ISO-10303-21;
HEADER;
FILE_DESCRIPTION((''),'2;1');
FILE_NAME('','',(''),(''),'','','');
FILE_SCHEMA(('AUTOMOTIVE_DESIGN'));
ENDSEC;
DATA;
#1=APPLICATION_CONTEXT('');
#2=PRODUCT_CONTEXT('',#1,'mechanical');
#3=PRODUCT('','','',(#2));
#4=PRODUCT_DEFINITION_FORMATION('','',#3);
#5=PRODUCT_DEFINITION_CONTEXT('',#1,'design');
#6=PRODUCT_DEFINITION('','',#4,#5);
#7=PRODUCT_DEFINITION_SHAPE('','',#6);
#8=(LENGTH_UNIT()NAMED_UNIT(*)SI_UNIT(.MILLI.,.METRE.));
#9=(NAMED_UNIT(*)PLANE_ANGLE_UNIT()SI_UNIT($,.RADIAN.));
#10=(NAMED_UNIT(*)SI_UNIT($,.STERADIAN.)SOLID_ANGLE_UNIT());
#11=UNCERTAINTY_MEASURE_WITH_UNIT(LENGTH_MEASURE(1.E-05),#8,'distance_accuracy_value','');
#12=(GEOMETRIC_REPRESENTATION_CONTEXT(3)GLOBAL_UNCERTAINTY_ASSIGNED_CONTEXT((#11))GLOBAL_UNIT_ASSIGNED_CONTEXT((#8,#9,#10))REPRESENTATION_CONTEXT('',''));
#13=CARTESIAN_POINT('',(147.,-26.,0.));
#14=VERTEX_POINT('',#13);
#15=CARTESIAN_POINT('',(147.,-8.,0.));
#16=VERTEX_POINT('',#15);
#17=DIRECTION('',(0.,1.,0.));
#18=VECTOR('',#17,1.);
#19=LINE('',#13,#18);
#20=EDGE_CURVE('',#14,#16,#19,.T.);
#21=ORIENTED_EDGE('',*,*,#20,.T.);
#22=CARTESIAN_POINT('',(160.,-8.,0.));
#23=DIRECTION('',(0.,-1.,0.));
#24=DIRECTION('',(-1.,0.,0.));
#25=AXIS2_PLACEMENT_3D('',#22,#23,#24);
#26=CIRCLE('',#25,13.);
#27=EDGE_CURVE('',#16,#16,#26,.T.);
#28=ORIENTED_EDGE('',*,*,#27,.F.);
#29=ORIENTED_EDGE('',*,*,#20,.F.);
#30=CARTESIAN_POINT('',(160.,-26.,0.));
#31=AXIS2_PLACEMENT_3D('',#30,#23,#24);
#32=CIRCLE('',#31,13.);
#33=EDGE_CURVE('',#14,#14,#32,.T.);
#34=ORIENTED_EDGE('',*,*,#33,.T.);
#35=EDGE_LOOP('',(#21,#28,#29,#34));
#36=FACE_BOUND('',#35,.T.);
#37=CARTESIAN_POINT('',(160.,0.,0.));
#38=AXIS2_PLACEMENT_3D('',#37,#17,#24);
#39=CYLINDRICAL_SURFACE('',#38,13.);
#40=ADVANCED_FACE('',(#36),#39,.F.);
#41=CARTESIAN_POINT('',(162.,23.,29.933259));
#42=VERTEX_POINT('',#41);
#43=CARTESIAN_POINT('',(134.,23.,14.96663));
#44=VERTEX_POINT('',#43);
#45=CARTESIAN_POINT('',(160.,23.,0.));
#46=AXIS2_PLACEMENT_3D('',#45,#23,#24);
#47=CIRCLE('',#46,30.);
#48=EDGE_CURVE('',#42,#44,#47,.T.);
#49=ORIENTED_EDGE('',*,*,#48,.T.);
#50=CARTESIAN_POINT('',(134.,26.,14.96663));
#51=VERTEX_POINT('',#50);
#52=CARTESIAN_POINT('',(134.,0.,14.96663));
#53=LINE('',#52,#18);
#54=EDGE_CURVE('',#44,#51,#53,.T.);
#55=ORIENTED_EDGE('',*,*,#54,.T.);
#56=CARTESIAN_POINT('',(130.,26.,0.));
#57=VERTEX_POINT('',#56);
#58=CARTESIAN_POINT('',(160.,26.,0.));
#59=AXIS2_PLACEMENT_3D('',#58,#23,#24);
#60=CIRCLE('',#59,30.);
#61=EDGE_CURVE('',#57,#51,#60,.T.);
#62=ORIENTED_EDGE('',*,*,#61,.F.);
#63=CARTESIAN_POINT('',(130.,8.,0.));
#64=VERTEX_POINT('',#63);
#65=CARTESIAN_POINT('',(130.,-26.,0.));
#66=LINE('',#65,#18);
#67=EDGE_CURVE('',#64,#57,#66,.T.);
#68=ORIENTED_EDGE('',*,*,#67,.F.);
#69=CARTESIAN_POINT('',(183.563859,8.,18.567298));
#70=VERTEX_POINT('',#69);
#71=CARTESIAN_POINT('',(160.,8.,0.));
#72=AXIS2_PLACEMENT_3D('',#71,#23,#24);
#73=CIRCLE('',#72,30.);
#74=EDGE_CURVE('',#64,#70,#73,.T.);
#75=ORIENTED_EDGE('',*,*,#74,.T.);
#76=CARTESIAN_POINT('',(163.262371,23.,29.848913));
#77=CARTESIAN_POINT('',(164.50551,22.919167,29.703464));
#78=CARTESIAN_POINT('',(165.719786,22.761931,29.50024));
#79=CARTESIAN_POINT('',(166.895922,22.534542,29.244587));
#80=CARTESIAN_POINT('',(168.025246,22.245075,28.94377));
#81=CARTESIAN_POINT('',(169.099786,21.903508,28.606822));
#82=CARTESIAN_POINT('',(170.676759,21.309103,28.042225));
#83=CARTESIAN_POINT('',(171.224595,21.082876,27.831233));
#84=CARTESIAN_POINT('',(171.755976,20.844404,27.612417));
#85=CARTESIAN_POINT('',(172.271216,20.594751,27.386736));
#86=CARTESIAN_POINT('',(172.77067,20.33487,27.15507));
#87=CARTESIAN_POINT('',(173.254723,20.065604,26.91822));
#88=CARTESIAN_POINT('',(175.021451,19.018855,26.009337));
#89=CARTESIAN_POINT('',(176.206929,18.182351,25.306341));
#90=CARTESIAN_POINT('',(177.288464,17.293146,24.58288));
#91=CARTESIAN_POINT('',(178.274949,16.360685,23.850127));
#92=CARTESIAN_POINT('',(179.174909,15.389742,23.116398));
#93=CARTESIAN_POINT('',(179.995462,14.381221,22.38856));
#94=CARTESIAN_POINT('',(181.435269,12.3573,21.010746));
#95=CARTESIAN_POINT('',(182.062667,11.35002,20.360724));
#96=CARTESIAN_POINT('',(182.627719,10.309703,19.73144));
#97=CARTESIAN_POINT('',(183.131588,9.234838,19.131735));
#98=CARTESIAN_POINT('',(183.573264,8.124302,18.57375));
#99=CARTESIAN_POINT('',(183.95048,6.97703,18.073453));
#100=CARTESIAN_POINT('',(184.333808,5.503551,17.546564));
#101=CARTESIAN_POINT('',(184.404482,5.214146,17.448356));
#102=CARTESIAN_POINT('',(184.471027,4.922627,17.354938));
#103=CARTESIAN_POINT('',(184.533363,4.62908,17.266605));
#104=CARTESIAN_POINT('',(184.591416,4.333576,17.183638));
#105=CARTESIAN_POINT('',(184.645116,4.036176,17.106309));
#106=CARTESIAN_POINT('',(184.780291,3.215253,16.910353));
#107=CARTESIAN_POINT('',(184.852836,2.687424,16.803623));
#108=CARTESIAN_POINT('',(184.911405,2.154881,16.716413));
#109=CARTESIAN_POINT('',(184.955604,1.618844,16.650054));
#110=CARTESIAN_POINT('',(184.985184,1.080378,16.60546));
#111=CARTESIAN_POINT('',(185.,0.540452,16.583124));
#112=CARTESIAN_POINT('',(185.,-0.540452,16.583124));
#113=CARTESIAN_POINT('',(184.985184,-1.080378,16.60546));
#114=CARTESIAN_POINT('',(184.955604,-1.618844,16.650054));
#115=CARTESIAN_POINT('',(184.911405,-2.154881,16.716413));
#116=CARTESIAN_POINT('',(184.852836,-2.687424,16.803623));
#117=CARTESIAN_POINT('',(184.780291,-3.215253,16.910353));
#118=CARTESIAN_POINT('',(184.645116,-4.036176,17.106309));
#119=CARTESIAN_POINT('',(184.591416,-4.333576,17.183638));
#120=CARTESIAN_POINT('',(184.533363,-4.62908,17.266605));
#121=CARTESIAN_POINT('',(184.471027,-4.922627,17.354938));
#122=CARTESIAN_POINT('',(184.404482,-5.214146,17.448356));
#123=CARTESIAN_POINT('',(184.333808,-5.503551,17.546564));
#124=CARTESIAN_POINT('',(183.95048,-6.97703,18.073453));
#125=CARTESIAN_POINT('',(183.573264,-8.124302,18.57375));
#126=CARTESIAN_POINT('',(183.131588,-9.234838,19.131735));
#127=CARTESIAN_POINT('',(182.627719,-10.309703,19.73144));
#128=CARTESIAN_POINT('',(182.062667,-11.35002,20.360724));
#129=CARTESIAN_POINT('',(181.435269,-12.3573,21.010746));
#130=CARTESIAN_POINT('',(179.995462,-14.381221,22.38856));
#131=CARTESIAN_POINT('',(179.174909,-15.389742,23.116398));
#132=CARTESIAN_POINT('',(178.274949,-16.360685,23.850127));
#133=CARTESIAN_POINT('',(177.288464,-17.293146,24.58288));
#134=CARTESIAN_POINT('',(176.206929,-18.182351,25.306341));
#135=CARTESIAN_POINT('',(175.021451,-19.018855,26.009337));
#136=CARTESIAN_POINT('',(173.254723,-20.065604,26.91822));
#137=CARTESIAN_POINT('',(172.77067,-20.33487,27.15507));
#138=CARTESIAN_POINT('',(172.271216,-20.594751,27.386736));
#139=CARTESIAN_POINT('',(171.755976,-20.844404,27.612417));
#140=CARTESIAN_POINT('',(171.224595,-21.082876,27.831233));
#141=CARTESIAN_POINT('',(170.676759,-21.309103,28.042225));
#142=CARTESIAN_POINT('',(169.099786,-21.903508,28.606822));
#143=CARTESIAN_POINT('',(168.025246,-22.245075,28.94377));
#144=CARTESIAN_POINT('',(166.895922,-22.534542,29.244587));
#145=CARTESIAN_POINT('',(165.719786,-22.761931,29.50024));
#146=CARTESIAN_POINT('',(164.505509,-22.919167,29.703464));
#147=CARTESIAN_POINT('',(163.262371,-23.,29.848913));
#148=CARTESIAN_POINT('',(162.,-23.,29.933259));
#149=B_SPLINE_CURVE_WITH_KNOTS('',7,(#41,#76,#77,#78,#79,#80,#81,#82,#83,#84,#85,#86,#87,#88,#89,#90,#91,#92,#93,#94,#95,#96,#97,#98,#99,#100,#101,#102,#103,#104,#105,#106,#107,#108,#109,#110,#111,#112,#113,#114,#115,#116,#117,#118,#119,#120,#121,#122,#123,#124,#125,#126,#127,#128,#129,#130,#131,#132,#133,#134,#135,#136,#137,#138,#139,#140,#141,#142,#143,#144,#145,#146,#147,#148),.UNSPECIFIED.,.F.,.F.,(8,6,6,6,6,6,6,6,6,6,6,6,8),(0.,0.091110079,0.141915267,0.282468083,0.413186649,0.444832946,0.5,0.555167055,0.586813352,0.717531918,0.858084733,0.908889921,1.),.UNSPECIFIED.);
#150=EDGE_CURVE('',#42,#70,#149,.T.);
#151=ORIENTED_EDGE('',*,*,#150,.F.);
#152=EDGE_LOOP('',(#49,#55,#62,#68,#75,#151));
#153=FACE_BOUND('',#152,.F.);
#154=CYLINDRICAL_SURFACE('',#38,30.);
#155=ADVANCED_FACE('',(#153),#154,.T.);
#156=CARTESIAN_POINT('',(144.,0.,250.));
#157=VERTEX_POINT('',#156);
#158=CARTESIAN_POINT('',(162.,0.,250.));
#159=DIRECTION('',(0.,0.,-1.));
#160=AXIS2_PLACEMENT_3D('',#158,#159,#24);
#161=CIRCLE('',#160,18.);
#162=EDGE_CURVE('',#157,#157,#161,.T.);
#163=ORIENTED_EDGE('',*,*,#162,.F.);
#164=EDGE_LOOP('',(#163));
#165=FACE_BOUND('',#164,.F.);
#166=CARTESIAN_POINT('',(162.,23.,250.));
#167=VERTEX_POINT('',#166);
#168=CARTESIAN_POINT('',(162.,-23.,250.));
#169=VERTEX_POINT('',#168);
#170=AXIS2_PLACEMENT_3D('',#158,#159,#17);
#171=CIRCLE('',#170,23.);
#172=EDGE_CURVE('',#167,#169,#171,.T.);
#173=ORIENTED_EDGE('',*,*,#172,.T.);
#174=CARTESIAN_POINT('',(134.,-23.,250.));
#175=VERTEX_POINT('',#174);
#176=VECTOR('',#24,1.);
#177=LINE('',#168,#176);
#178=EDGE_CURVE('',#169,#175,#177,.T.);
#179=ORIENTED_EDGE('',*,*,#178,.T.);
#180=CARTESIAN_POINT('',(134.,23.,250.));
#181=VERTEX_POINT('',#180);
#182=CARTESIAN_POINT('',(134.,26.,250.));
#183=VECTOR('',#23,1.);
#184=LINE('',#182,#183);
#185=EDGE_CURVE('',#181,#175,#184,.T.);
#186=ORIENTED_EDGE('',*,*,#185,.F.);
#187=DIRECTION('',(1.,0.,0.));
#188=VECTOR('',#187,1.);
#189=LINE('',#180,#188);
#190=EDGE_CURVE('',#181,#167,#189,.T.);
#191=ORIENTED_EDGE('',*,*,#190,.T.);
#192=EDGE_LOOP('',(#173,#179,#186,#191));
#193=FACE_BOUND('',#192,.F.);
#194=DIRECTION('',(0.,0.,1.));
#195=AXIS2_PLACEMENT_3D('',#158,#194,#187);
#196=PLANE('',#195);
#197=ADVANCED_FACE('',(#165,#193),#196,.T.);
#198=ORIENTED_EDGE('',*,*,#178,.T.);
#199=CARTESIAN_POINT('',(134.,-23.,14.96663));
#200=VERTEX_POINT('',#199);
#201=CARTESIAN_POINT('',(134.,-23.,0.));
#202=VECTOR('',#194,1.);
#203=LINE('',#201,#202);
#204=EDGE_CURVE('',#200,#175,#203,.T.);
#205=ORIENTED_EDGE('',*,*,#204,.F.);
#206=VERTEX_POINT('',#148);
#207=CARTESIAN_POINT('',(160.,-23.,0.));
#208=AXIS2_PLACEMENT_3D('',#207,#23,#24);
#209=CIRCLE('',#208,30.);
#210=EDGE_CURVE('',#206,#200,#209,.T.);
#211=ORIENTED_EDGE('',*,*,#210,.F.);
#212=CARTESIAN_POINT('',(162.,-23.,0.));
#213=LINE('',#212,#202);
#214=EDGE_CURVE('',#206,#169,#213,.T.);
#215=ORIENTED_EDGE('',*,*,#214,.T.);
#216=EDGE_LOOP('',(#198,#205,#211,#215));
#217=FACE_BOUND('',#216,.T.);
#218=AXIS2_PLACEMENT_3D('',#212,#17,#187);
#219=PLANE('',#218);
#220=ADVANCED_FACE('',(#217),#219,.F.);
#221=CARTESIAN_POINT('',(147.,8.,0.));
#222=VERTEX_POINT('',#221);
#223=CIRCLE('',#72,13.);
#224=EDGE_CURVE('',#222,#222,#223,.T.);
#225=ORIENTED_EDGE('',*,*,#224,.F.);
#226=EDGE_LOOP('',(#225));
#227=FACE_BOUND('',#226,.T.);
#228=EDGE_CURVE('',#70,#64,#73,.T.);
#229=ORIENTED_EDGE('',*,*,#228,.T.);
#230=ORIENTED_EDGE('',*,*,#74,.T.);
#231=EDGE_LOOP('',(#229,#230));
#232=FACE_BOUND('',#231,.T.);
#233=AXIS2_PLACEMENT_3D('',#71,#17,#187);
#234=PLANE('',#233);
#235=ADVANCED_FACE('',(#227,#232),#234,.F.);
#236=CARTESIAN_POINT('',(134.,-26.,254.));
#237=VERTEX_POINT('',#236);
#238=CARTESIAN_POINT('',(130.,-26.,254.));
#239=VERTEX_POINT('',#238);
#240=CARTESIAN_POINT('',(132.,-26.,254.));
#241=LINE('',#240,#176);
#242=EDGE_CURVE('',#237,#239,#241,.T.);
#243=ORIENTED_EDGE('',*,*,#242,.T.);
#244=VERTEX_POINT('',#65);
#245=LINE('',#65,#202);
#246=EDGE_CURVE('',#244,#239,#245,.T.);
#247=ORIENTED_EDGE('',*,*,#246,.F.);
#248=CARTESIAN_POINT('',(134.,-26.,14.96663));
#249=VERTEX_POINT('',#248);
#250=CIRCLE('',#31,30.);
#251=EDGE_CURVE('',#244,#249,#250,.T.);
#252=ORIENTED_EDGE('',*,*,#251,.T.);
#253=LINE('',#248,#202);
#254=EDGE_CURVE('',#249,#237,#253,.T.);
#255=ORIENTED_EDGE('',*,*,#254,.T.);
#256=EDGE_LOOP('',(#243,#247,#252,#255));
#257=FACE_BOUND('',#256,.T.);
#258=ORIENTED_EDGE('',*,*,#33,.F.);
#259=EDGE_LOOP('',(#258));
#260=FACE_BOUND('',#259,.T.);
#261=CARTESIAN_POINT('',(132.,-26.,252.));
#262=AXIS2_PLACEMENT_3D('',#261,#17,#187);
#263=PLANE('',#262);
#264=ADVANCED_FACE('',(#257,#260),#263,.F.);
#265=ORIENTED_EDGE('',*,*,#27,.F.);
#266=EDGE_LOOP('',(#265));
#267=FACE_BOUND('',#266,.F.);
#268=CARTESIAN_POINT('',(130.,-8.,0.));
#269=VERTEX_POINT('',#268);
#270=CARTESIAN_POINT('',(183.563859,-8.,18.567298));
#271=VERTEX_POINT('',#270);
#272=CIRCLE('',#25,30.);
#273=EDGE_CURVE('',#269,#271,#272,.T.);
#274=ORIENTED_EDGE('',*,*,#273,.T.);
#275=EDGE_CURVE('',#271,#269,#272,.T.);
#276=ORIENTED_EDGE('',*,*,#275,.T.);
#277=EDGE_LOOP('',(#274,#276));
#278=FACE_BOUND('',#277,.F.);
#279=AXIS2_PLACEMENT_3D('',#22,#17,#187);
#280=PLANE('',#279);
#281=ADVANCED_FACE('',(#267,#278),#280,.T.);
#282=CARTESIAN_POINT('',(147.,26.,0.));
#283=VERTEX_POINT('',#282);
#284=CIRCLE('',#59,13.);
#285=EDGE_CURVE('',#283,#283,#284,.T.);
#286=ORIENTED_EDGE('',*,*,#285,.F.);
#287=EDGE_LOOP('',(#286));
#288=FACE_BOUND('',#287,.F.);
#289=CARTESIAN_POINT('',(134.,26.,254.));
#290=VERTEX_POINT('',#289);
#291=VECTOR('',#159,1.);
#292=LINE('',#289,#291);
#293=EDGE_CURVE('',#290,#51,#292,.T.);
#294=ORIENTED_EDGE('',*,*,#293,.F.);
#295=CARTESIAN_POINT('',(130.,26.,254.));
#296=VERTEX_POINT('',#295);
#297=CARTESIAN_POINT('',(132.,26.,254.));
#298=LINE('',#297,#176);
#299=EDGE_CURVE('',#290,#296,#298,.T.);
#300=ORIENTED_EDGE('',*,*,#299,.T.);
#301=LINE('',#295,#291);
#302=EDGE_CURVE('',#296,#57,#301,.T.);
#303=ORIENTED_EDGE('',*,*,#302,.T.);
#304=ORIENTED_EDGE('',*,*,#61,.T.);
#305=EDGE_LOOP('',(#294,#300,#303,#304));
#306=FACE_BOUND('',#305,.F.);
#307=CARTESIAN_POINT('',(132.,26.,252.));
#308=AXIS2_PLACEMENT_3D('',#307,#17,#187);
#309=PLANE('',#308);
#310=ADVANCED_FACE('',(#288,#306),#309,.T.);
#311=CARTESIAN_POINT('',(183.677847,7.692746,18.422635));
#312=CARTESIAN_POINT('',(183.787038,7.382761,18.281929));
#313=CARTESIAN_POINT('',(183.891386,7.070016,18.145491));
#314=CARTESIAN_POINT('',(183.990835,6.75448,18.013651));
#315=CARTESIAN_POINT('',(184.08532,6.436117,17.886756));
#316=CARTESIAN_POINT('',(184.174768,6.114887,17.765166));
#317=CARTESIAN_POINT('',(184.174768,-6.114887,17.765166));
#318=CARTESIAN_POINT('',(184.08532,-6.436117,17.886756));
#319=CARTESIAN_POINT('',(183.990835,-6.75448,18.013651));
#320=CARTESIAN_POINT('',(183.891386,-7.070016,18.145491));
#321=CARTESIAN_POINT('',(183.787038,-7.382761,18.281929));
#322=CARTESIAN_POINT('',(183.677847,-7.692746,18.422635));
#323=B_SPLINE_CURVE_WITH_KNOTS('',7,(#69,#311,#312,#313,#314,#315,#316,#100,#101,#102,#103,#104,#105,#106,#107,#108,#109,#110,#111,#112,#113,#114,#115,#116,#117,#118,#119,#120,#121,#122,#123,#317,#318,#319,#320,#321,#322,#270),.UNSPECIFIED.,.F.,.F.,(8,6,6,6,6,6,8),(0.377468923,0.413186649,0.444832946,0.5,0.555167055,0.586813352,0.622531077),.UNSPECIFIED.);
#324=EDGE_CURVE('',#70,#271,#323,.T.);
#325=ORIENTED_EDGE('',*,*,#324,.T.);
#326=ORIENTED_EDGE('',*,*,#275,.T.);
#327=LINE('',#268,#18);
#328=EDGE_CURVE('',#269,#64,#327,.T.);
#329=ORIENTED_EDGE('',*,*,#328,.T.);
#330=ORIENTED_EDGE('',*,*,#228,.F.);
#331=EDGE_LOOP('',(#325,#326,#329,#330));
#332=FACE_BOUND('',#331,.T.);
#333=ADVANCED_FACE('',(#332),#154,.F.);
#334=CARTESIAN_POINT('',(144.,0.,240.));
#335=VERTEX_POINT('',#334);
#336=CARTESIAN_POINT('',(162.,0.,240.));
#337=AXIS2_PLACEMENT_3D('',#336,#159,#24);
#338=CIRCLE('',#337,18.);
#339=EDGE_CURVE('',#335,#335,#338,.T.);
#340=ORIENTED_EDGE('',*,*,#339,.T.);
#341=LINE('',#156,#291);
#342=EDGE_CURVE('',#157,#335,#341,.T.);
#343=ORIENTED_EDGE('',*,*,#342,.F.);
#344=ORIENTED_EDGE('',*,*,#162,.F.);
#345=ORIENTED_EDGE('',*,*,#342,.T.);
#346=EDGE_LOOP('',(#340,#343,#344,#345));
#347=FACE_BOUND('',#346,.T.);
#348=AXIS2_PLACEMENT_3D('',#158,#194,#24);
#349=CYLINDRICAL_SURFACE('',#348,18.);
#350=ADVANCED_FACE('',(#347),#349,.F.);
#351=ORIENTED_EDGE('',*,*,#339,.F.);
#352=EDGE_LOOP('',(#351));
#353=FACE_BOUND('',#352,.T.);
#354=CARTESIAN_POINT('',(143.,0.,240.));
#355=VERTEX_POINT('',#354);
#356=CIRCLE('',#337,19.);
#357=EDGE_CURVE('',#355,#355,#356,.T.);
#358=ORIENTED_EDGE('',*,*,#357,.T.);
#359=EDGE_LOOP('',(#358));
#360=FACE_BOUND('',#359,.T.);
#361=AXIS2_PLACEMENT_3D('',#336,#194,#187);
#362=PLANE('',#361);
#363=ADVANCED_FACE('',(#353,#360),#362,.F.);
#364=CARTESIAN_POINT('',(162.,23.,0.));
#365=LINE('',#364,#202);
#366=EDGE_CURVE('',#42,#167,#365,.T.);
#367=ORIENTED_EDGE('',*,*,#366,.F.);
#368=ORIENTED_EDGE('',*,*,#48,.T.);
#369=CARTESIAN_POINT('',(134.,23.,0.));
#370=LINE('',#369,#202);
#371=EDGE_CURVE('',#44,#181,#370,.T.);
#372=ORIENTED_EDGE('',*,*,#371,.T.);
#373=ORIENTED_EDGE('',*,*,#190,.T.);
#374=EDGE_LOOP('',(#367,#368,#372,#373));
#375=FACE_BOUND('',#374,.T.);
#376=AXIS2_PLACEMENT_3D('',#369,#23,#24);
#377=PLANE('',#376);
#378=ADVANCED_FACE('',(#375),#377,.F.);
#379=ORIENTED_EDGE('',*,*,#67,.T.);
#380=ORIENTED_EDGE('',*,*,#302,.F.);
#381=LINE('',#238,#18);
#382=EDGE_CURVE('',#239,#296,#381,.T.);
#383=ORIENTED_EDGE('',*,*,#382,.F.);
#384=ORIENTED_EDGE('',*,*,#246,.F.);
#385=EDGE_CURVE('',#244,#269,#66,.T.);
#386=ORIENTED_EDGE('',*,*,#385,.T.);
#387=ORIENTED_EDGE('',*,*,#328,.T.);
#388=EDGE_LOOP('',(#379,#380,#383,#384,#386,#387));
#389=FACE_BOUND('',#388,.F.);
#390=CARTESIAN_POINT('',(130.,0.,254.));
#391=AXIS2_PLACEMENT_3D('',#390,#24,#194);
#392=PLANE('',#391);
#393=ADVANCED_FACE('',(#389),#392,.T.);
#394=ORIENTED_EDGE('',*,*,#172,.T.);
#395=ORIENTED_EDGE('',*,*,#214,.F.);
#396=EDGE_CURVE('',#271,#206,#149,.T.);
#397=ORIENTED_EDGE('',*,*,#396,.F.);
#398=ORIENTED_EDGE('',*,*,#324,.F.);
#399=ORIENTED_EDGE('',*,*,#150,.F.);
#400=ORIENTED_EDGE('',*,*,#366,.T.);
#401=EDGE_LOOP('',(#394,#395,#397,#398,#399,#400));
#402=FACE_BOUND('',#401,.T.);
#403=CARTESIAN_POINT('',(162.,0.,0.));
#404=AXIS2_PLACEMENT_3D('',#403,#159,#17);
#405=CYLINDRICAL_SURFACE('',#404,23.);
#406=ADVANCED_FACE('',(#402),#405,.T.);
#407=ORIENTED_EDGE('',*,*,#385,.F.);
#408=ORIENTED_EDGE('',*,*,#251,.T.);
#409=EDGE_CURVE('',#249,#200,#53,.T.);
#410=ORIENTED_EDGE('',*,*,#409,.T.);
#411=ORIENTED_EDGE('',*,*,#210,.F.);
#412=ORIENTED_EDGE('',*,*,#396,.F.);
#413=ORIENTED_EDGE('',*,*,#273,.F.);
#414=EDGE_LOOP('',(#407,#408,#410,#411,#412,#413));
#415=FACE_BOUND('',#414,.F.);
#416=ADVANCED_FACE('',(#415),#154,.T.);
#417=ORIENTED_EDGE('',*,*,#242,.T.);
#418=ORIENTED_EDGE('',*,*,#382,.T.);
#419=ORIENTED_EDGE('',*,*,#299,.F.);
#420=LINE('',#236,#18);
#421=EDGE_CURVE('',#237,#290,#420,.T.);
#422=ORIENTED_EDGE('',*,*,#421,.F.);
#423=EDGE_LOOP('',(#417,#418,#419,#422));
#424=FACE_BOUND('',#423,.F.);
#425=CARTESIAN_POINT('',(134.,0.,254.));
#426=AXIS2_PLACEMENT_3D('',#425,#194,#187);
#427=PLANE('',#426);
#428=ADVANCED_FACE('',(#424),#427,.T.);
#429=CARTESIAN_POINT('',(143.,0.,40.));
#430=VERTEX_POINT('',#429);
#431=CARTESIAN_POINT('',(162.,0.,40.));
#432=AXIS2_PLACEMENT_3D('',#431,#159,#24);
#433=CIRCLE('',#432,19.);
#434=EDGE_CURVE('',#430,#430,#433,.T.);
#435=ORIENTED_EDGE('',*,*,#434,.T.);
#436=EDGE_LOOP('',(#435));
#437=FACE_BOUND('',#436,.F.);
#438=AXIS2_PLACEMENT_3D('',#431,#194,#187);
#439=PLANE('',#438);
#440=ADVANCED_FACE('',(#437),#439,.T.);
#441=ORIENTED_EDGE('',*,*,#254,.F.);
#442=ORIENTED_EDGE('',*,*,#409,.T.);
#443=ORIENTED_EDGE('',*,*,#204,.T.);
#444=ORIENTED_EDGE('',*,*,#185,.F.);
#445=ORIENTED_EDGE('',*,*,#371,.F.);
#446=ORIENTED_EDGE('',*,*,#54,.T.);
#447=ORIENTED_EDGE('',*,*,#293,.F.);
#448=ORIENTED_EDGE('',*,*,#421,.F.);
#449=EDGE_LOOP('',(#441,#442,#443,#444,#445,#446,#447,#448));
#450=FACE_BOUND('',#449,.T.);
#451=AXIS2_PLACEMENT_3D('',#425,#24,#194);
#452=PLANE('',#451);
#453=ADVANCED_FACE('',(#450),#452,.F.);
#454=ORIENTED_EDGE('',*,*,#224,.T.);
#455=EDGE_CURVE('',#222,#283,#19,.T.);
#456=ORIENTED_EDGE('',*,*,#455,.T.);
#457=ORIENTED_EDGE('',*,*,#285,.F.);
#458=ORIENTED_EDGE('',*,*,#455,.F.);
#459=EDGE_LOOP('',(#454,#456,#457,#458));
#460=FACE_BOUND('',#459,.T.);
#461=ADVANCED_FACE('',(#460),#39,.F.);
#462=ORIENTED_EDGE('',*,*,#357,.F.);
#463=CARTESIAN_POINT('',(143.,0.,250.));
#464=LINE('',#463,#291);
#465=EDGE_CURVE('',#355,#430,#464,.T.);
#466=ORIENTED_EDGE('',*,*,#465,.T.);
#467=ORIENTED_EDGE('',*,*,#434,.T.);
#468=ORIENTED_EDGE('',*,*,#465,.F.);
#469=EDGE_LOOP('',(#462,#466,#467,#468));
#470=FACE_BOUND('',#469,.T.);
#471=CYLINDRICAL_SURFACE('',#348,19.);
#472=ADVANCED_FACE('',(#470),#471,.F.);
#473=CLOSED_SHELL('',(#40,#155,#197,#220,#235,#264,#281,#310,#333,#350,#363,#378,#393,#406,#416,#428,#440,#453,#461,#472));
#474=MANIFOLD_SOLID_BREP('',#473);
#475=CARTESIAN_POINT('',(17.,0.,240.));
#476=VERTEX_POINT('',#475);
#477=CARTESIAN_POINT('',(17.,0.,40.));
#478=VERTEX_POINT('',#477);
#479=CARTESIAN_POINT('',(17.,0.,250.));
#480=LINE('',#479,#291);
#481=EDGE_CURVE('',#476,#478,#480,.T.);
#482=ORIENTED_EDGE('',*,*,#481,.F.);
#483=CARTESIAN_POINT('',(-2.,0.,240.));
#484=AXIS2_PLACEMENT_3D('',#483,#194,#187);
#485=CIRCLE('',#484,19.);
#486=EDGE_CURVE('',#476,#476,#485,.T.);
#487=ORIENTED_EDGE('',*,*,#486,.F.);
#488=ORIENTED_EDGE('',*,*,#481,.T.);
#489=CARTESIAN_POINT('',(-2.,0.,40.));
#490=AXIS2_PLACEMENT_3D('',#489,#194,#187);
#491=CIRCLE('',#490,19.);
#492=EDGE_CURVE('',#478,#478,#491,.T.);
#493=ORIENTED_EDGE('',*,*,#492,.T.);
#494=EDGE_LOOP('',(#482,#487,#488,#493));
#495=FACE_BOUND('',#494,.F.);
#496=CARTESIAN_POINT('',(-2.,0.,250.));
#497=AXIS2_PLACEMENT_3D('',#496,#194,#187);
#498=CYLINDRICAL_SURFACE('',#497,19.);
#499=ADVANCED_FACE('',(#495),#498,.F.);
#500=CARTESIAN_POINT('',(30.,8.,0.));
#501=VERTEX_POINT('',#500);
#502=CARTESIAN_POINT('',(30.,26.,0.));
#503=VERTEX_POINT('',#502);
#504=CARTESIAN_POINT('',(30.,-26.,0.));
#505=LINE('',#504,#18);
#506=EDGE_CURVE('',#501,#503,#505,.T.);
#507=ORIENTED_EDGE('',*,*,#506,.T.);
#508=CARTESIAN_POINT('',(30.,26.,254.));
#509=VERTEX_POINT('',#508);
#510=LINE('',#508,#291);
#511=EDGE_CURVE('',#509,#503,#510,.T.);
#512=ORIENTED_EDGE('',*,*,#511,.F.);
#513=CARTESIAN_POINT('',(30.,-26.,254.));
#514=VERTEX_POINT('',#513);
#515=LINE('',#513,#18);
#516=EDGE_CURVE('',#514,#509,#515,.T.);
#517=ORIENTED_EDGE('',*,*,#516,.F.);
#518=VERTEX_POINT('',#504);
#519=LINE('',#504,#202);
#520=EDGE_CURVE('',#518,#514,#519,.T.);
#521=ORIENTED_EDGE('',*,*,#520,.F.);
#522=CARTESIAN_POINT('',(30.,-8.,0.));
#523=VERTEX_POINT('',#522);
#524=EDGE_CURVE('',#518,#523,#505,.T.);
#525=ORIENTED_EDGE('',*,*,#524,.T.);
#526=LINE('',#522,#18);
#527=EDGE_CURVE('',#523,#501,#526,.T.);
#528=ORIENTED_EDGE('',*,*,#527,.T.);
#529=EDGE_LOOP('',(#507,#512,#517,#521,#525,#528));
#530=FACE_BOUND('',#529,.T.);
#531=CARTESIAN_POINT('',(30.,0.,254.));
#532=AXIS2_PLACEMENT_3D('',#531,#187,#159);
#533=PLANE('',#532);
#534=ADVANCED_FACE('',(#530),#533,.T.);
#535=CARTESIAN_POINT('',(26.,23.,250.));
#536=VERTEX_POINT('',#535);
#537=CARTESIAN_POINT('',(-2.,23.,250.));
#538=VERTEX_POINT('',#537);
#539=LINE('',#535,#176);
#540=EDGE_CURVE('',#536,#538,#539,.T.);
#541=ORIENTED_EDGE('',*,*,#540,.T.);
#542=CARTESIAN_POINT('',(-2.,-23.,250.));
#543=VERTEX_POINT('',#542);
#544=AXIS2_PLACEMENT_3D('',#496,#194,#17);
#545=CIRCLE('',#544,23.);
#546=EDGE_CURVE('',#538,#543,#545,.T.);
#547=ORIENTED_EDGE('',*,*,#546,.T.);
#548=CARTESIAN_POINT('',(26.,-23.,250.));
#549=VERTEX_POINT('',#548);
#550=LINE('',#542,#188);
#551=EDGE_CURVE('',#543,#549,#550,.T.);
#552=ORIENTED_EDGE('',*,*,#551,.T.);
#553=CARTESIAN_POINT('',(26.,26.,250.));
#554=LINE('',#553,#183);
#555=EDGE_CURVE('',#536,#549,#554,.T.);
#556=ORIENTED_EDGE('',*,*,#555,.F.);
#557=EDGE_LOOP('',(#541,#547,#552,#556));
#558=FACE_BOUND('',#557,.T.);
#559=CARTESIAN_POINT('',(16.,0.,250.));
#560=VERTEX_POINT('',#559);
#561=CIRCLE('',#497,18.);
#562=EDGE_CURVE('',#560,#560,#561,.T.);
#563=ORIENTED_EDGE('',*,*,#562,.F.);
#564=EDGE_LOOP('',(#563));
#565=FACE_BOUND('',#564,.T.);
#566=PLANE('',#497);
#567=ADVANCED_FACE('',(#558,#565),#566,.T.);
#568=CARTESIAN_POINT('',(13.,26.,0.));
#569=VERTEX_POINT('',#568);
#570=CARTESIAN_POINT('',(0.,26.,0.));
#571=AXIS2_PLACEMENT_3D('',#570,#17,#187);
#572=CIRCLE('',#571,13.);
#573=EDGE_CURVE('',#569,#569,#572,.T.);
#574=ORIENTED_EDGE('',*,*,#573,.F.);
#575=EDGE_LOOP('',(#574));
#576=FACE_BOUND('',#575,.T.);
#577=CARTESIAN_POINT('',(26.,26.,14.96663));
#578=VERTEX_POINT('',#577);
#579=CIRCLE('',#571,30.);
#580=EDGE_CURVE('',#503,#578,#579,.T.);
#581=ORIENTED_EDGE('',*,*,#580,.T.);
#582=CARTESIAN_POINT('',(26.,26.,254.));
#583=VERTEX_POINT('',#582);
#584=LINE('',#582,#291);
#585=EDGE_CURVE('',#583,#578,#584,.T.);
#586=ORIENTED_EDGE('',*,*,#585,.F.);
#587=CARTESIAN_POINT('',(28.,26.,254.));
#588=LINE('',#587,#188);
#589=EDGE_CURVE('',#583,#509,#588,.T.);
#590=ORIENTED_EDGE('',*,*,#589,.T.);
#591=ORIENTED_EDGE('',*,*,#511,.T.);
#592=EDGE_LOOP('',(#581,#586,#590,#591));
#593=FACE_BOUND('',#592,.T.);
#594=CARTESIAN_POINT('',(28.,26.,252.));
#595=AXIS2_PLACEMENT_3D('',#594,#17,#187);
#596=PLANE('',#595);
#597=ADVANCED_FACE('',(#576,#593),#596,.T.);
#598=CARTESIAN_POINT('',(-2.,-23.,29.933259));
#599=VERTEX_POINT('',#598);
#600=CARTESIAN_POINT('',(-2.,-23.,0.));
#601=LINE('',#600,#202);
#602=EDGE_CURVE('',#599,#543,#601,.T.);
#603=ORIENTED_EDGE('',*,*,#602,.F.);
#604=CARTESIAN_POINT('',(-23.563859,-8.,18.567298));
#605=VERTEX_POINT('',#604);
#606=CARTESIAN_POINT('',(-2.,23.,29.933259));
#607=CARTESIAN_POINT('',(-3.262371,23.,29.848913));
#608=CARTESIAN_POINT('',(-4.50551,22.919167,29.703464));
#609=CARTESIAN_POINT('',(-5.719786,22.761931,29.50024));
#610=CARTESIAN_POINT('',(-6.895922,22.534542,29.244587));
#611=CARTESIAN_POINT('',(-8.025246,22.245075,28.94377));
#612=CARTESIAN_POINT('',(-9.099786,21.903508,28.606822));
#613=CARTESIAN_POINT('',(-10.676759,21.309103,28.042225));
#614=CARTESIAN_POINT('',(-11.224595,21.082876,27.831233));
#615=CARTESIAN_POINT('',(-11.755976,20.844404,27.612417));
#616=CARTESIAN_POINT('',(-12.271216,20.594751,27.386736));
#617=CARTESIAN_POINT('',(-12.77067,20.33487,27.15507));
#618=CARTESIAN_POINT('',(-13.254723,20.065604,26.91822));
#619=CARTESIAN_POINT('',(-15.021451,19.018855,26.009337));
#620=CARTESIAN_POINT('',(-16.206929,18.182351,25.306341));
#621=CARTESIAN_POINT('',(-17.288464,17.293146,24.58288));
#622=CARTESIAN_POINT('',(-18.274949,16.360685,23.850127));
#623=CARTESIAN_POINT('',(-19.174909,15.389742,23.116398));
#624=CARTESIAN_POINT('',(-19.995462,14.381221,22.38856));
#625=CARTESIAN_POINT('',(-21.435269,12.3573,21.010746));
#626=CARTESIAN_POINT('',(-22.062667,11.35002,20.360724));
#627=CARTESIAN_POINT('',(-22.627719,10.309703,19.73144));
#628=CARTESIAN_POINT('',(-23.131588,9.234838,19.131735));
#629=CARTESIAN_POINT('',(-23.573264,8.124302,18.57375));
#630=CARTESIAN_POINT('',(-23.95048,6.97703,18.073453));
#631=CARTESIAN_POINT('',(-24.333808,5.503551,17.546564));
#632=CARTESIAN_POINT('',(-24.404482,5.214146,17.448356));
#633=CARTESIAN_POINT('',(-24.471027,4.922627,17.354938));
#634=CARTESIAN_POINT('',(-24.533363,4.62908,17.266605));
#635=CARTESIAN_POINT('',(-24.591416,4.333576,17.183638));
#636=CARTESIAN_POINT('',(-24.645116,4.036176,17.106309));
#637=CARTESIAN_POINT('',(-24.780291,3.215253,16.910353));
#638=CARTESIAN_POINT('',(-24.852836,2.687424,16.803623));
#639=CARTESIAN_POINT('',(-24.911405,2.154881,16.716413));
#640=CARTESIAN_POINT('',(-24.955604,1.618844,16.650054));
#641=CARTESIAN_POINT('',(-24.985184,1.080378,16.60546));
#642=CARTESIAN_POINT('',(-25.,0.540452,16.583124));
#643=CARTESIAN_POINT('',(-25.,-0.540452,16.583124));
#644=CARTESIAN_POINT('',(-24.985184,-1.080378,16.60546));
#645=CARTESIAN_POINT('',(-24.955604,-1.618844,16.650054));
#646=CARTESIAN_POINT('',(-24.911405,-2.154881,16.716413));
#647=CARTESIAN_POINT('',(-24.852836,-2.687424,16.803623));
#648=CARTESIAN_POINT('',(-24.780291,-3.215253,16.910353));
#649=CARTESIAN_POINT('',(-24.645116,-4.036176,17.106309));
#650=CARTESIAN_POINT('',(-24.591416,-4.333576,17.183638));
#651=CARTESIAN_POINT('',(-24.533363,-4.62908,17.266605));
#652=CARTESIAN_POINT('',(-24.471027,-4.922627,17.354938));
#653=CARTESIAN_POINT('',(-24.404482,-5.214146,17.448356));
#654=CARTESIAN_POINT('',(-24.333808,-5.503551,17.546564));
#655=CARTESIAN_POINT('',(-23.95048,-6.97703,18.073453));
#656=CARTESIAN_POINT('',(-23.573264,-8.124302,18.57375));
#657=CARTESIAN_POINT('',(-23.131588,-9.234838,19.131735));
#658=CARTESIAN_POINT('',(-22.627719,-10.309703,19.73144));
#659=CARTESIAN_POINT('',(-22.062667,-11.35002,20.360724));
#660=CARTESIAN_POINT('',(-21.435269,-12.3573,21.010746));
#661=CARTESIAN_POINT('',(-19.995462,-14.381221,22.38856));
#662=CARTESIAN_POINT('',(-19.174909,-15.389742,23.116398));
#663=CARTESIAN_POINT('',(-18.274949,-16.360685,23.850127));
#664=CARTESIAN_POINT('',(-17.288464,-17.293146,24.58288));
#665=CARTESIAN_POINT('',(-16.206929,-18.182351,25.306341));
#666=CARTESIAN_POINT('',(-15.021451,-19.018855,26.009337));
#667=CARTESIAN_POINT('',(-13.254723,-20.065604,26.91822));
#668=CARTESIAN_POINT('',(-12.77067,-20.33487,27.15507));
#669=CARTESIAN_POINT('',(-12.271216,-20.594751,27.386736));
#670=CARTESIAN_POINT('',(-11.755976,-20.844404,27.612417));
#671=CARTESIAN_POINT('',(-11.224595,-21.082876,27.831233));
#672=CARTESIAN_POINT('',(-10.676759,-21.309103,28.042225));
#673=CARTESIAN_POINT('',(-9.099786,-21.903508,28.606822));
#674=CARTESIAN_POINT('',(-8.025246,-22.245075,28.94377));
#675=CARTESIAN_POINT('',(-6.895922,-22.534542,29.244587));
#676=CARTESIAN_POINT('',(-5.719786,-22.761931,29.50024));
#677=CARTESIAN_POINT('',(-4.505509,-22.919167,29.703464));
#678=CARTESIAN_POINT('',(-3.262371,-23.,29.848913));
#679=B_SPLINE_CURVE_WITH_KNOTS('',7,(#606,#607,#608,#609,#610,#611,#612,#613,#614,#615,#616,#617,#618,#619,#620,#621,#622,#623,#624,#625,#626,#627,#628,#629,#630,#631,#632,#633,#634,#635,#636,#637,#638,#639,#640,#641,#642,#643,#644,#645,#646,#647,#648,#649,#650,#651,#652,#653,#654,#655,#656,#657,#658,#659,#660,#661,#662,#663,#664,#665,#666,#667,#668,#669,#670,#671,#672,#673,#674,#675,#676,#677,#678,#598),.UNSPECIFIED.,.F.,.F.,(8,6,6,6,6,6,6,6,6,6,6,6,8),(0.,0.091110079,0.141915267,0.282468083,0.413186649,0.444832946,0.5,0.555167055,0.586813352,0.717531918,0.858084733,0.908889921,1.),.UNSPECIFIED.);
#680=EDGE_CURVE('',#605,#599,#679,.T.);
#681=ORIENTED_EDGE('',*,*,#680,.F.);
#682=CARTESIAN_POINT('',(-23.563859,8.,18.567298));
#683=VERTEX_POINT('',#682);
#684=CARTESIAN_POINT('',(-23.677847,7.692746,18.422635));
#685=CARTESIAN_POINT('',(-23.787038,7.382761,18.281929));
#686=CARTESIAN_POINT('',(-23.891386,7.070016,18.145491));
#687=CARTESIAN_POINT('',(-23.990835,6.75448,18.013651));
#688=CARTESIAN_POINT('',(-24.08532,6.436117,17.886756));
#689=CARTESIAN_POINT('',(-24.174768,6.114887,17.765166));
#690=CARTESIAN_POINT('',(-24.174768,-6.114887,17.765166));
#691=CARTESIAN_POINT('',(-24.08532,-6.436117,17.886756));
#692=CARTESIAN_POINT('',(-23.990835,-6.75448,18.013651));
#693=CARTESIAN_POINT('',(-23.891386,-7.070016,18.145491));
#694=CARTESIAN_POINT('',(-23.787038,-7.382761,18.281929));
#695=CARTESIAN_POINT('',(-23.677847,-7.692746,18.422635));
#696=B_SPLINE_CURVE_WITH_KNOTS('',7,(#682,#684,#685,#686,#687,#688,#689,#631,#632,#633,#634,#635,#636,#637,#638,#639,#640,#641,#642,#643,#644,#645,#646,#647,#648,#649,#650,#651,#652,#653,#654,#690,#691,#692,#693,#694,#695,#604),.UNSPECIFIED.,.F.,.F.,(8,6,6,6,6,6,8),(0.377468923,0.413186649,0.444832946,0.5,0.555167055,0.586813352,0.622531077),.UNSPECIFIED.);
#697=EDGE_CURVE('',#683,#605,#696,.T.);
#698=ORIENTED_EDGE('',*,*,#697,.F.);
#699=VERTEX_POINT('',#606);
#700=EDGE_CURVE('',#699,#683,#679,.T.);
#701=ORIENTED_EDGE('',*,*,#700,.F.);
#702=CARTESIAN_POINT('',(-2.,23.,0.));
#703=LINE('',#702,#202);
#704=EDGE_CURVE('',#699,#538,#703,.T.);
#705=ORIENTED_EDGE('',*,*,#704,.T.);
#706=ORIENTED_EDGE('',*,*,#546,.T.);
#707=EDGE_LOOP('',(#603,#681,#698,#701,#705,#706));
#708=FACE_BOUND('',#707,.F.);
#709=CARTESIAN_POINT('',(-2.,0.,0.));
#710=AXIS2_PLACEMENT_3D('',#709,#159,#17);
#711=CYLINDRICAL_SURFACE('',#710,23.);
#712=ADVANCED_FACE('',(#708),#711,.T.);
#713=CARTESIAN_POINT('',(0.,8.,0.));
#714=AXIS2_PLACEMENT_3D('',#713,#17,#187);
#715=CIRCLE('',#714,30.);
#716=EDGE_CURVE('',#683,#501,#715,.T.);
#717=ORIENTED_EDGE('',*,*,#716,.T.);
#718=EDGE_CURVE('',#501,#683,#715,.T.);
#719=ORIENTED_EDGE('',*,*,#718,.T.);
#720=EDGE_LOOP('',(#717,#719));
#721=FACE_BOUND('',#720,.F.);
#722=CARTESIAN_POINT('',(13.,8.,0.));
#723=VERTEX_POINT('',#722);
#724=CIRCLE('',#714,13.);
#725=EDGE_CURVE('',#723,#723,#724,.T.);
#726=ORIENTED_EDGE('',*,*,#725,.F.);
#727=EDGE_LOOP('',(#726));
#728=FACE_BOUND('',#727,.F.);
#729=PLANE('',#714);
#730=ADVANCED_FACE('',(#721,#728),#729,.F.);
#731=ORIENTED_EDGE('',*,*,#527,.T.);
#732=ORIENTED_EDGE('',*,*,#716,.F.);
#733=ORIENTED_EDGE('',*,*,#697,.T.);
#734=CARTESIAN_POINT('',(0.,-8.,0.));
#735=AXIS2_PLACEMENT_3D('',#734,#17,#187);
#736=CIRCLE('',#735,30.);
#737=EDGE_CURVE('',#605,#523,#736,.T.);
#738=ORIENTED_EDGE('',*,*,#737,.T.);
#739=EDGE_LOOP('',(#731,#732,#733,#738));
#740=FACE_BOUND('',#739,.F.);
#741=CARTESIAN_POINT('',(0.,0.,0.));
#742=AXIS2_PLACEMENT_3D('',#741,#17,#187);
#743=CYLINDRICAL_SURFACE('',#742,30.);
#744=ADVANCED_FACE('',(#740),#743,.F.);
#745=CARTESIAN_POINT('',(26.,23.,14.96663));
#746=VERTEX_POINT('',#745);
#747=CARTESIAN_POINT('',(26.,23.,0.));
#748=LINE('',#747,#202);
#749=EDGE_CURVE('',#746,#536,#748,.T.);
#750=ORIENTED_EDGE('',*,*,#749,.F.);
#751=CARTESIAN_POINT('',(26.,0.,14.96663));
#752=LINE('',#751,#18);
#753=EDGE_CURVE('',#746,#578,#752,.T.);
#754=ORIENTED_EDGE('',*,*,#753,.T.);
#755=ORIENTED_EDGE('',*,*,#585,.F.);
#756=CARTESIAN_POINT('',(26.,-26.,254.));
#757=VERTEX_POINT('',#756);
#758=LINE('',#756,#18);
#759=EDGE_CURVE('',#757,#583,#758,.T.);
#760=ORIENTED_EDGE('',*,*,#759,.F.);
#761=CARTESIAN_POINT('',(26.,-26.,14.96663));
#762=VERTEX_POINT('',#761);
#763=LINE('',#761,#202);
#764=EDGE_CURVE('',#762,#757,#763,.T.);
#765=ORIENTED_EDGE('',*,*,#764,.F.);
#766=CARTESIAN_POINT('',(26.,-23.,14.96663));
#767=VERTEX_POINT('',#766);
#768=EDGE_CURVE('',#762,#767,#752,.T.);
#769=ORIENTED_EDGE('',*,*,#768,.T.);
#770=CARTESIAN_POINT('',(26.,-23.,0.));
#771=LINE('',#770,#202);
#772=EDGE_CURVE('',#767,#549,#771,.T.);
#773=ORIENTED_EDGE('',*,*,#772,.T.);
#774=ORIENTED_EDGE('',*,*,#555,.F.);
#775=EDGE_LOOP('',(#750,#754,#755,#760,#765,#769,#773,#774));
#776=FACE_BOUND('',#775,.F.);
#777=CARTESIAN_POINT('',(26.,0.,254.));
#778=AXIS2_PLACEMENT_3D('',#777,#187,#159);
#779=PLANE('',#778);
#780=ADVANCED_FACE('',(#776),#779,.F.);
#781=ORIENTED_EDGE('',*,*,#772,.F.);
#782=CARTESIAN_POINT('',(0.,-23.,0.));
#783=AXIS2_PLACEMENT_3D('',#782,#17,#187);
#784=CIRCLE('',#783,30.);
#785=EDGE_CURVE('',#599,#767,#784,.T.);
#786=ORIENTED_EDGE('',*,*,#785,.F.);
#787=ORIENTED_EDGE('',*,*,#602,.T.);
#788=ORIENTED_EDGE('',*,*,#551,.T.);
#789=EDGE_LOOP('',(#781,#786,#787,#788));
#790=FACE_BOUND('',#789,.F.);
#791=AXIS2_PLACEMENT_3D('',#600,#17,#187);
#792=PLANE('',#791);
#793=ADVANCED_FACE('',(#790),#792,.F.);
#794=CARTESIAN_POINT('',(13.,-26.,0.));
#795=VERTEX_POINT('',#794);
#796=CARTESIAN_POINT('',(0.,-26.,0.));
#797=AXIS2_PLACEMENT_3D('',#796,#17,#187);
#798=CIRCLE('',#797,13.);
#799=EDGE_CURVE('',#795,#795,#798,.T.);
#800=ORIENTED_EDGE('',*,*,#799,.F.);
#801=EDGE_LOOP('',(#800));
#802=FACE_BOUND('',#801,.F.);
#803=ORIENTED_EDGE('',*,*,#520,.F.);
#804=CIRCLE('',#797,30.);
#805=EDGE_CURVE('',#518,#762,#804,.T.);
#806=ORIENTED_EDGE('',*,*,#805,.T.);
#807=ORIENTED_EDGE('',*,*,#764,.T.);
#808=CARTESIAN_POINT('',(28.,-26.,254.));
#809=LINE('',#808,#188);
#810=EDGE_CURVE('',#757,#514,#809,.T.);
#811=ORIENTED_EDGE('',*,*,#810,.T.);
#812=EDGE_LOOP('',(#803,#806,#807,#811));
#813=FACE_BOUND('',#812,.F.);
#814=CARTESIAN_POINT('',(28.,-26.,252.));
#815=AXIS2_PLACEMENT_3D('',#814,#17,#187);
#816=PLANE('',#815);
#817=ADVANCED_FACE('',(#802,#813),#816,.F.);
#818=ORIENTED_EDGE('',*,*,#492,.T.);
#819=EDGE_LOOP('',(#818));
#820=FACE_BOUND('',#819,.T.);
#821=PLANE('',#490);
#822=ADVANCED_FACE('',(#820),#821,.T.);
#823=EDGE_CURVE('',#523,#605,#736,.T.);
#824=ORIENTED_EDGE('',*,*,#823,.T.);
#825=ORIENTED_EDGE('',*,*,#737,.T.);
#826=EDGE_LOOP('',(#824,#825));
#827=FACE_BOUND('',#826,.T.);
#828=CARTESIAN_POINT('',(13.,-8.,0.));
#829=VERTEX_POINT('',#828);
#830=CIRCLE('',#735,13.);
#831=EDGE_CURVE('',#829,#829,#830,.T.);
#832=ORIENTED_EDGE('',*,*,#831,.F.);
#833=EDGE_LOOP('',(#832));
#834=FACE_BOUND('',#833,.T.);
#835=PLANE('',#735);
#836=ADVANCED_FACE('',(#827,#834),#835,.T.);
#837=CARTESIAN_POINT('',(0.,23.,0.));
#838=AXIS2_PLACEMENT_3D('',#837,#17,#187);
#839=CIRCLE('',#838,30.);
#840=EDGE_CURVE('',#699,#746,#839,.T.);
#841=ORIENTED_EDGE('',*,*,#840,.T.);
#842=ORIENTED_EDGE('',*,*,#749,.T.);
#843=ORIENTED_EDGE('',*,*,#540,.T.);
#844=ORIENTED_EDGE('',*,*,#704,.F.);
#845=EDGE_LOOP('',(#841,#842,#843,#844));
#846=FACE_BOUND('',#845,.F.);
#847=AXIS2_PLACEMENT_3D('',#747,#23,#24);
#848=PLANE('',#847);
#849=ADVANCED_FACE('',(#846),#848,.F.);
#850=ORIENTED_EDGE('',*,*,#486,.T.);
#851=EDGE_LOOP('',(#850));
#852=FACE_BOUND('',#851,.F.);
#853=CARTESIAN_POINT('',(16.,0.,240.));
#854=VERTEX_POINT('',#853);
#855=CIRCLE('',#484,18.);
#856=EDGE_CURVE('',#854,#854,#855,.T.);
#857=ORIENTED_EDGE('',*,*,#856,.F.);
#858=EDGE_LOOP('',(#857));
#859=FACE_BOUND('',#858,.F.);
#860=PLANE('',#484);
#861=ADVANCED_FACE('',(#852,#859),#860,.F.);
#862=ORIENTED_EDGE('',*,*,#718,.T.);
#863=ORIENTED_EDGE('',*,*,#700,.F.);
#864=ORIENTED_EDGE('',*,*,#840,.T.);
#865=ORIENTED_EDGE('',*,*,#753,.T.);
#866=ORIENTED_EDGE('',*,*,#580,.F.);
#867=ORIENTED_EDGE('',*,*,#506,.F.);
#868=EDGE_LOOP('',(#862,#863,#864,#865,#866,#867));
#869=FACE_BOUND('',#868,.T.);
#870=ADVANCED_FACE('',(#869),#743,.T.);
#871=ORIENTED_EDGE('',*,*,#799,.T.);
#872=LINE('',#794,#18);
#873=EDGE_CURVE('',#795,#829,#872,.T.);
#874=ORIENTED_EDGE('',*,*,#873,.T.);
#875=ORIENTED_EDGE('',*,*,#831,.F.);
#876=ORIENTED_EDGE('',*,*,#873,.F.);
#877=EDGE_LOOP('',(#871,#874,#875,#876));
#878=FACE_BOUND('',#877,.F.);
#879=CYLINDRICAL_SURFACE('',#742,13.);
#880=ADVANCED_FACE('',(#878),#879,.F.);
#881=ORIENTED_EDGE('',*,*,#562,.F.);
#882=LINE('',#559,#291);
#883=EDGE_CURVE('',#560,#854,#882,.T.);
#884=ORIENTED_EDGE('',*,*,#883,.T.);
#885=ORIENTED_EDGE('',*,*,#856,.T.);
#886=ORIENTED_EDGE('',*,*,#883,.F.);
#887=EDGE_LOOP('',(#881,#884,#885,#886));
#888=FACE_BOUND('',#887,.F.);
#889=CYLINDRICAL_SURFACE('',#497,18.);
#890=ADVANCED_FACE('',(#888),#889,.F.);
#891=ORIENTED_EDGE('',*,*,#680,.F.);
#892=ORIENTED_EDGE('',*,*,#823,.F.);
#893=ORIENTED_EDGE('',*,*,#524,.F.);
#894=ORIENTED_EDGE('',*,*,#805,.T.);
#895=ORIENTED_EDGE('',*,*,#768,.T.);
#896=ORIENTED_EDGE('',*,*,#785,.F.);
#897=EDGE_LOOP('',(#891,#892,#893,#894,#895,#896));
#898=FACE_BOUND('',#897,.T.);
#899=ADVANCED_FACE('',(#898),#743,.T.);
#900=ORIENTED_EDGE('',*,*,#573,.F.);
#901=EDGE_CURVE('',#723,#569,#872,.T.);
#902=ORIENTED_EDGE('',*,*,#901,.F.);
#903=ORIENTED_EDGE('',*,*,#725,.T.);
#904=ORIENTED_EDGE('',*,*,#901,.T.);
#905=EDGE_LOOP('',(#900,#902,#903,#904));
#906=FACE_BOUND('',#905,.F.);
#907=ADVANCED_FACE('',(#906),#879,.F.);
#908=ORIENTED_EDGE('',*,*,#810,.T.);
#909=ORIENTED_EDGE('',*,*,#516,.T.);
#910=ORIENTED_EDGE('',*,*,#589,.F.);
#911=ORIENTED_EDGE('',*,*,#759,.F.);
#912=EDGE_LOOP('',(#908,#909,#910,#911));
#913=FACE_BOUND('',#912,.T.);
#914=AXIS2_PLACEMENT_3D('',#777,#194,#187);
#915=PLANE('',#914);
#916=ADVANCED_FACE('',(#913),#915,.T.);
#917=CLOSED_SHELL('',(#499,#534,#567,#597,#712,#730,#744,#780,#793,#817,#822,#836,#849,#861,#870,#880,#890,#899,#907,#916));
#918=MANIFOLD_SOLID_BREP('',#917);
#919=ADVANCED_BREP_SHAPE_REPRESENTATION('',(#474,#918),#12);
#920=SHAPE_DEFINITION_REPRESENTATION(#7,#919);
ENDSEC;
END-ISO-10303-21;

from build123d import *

# Parameters (mm, degrees)
SKETCH1_R           = 30
BOSS_EXTRUDE1_DEPTH = 26
BOSS_EXTRUDE2_DEPTH = 250
SKETCH4_R           = 13
CUT_EXTRUDE2_DEPTH  = 26
SKETCH1_2_R         = 30
CUT_EXTRUDE3_DEPTH  = 8
CUT_EXTRUDE4_START  = 8
SKETCH1_3_R         = 30
CUT_EXTRUDE4_DEPTH  = 8
SKETCH5_R           = 19
CUT_EXTRUDE5_DEPTH  = 210
SKETCH7_W           = 4
SKETCH7_H           = 4
BOSS_EXTRUDE4_DEPTH = 26
SKETCH9_R           = 19
SKETCH9_R_2         = 18
BOSS_EXTRUDE5_DEPTH = 10


with BuildPart() as part:
    # Sketch1 → Boss-Extrude1 (new, symmetric)
    with BuildSketch(Plane(origin=(0, 0, 0), x_dir=(1, 0, 0), z_dir=(0, 1, 0))):
        Circle(SKETCH1_R)
    extrude(amount=BOSS_EXTRUDE1_DEPTH, both=True)

    # Sketch3 → Boss-Extrude2 (add)
    with BuildSketch(Plane.XY):
        with BuildLine():
            Line((26, 26), (26, 23))
            Line((26, 23), (-2, 23))
            ThreePointArc((-2, 23), (-25, 0), (-2, -23))
            Line((-2, -23), (26, -23))
            Line((26, -23), (26, -26))
            Line((26, -26), (30, -26))
            Line((30, -26), (30, 26))
            Line((30, 26), (26, 26))
        make_face()
    extrude(amount=BOSS_EXTRUDE2_DEPTH)

    # Sketch4 → Cut-Extrude2 (cut, symmetric)
    with BuildSketch(Plane(origin=(0, 0, 0), x_dir=(1, 0, 0), z_dir=(0, 1, 0))):
        Circle(SKETCH4_R)
    extrude(amount=CUT_EXTRUDE2_DEPTH, both=True, mode=Mode.SUBTRACT)

    # Sketch1<2> → Cut-Extrude3 (cut)
    with BuildSketch(Plane(origin=(0, 0, 0), x_dir=(1, 0, 0), z_dir=(0, 1, 0))):
        Circle(SKETCH1_2_R)
    extrude(amount=-CUT_EXTRUDE3_DEPTH, mode=Mode.SUBTRACT)

    # Sketch1<3> → Cut-Extrude4 (cut)
    with BuildSketch(Plane(origin=(0, 0, 0), x_dir=(1, 0, 0), z_dir=(0, 1, 0)).offset(CUT_EXTRUDE4_START)):
        Circle(SKETCH1_3_R)
    extrude(amount=-CUT_EXTRUDE4_DEPTH, mode=Mode.SUBTRACT)

    # Sketch5 → Cut-Extrude5 (cut)
    with BuildSketch(Plane.XY.offset(250)):
        with Locations((-2, 0)):
            Circle(SKETCH5_R)
    extrude(amount=-CUT_EXTRUDE5_DEPTH, mode=Mode.SUBTRACT)

    # Sketch7 → Boss-Extrude4 (add, symmetric)
    with BuildSketch(Plane(origin=(0, 0, 0), x_dir=(1, 0, 0), z_dir=(0, 1, 0))):
        with Locations((28, -252)):
            Rectangle(SKETCH7_W, SKETCH7_H)
    extrude(amount=BOSS_EXTRUDE4_DEPTH, both=True)

    # Sketch9 → Boss-Extrude5 (add)
    with BuildSketch(Plane.XY.offset(250)):
        with Locations((-2, 0)):
            Circle(SKETCH9_R)
        with Locations((-2, 0)):
            Circle(SKETCH9_R_2, mode=Mode.SUBTRACT)
    extrude(amount=-BOSS_EXTRUDE5_DEPTH)


with BuildPart() as body_2:
    # Mirror2: mirrored copy
    add(part.part.mirror(Plane(origin=(80, 0, 0), x_dir=(0, 0, 1), z_dir=(1, 0, 0))))


solid = Compound([part.part, body_2.part])
